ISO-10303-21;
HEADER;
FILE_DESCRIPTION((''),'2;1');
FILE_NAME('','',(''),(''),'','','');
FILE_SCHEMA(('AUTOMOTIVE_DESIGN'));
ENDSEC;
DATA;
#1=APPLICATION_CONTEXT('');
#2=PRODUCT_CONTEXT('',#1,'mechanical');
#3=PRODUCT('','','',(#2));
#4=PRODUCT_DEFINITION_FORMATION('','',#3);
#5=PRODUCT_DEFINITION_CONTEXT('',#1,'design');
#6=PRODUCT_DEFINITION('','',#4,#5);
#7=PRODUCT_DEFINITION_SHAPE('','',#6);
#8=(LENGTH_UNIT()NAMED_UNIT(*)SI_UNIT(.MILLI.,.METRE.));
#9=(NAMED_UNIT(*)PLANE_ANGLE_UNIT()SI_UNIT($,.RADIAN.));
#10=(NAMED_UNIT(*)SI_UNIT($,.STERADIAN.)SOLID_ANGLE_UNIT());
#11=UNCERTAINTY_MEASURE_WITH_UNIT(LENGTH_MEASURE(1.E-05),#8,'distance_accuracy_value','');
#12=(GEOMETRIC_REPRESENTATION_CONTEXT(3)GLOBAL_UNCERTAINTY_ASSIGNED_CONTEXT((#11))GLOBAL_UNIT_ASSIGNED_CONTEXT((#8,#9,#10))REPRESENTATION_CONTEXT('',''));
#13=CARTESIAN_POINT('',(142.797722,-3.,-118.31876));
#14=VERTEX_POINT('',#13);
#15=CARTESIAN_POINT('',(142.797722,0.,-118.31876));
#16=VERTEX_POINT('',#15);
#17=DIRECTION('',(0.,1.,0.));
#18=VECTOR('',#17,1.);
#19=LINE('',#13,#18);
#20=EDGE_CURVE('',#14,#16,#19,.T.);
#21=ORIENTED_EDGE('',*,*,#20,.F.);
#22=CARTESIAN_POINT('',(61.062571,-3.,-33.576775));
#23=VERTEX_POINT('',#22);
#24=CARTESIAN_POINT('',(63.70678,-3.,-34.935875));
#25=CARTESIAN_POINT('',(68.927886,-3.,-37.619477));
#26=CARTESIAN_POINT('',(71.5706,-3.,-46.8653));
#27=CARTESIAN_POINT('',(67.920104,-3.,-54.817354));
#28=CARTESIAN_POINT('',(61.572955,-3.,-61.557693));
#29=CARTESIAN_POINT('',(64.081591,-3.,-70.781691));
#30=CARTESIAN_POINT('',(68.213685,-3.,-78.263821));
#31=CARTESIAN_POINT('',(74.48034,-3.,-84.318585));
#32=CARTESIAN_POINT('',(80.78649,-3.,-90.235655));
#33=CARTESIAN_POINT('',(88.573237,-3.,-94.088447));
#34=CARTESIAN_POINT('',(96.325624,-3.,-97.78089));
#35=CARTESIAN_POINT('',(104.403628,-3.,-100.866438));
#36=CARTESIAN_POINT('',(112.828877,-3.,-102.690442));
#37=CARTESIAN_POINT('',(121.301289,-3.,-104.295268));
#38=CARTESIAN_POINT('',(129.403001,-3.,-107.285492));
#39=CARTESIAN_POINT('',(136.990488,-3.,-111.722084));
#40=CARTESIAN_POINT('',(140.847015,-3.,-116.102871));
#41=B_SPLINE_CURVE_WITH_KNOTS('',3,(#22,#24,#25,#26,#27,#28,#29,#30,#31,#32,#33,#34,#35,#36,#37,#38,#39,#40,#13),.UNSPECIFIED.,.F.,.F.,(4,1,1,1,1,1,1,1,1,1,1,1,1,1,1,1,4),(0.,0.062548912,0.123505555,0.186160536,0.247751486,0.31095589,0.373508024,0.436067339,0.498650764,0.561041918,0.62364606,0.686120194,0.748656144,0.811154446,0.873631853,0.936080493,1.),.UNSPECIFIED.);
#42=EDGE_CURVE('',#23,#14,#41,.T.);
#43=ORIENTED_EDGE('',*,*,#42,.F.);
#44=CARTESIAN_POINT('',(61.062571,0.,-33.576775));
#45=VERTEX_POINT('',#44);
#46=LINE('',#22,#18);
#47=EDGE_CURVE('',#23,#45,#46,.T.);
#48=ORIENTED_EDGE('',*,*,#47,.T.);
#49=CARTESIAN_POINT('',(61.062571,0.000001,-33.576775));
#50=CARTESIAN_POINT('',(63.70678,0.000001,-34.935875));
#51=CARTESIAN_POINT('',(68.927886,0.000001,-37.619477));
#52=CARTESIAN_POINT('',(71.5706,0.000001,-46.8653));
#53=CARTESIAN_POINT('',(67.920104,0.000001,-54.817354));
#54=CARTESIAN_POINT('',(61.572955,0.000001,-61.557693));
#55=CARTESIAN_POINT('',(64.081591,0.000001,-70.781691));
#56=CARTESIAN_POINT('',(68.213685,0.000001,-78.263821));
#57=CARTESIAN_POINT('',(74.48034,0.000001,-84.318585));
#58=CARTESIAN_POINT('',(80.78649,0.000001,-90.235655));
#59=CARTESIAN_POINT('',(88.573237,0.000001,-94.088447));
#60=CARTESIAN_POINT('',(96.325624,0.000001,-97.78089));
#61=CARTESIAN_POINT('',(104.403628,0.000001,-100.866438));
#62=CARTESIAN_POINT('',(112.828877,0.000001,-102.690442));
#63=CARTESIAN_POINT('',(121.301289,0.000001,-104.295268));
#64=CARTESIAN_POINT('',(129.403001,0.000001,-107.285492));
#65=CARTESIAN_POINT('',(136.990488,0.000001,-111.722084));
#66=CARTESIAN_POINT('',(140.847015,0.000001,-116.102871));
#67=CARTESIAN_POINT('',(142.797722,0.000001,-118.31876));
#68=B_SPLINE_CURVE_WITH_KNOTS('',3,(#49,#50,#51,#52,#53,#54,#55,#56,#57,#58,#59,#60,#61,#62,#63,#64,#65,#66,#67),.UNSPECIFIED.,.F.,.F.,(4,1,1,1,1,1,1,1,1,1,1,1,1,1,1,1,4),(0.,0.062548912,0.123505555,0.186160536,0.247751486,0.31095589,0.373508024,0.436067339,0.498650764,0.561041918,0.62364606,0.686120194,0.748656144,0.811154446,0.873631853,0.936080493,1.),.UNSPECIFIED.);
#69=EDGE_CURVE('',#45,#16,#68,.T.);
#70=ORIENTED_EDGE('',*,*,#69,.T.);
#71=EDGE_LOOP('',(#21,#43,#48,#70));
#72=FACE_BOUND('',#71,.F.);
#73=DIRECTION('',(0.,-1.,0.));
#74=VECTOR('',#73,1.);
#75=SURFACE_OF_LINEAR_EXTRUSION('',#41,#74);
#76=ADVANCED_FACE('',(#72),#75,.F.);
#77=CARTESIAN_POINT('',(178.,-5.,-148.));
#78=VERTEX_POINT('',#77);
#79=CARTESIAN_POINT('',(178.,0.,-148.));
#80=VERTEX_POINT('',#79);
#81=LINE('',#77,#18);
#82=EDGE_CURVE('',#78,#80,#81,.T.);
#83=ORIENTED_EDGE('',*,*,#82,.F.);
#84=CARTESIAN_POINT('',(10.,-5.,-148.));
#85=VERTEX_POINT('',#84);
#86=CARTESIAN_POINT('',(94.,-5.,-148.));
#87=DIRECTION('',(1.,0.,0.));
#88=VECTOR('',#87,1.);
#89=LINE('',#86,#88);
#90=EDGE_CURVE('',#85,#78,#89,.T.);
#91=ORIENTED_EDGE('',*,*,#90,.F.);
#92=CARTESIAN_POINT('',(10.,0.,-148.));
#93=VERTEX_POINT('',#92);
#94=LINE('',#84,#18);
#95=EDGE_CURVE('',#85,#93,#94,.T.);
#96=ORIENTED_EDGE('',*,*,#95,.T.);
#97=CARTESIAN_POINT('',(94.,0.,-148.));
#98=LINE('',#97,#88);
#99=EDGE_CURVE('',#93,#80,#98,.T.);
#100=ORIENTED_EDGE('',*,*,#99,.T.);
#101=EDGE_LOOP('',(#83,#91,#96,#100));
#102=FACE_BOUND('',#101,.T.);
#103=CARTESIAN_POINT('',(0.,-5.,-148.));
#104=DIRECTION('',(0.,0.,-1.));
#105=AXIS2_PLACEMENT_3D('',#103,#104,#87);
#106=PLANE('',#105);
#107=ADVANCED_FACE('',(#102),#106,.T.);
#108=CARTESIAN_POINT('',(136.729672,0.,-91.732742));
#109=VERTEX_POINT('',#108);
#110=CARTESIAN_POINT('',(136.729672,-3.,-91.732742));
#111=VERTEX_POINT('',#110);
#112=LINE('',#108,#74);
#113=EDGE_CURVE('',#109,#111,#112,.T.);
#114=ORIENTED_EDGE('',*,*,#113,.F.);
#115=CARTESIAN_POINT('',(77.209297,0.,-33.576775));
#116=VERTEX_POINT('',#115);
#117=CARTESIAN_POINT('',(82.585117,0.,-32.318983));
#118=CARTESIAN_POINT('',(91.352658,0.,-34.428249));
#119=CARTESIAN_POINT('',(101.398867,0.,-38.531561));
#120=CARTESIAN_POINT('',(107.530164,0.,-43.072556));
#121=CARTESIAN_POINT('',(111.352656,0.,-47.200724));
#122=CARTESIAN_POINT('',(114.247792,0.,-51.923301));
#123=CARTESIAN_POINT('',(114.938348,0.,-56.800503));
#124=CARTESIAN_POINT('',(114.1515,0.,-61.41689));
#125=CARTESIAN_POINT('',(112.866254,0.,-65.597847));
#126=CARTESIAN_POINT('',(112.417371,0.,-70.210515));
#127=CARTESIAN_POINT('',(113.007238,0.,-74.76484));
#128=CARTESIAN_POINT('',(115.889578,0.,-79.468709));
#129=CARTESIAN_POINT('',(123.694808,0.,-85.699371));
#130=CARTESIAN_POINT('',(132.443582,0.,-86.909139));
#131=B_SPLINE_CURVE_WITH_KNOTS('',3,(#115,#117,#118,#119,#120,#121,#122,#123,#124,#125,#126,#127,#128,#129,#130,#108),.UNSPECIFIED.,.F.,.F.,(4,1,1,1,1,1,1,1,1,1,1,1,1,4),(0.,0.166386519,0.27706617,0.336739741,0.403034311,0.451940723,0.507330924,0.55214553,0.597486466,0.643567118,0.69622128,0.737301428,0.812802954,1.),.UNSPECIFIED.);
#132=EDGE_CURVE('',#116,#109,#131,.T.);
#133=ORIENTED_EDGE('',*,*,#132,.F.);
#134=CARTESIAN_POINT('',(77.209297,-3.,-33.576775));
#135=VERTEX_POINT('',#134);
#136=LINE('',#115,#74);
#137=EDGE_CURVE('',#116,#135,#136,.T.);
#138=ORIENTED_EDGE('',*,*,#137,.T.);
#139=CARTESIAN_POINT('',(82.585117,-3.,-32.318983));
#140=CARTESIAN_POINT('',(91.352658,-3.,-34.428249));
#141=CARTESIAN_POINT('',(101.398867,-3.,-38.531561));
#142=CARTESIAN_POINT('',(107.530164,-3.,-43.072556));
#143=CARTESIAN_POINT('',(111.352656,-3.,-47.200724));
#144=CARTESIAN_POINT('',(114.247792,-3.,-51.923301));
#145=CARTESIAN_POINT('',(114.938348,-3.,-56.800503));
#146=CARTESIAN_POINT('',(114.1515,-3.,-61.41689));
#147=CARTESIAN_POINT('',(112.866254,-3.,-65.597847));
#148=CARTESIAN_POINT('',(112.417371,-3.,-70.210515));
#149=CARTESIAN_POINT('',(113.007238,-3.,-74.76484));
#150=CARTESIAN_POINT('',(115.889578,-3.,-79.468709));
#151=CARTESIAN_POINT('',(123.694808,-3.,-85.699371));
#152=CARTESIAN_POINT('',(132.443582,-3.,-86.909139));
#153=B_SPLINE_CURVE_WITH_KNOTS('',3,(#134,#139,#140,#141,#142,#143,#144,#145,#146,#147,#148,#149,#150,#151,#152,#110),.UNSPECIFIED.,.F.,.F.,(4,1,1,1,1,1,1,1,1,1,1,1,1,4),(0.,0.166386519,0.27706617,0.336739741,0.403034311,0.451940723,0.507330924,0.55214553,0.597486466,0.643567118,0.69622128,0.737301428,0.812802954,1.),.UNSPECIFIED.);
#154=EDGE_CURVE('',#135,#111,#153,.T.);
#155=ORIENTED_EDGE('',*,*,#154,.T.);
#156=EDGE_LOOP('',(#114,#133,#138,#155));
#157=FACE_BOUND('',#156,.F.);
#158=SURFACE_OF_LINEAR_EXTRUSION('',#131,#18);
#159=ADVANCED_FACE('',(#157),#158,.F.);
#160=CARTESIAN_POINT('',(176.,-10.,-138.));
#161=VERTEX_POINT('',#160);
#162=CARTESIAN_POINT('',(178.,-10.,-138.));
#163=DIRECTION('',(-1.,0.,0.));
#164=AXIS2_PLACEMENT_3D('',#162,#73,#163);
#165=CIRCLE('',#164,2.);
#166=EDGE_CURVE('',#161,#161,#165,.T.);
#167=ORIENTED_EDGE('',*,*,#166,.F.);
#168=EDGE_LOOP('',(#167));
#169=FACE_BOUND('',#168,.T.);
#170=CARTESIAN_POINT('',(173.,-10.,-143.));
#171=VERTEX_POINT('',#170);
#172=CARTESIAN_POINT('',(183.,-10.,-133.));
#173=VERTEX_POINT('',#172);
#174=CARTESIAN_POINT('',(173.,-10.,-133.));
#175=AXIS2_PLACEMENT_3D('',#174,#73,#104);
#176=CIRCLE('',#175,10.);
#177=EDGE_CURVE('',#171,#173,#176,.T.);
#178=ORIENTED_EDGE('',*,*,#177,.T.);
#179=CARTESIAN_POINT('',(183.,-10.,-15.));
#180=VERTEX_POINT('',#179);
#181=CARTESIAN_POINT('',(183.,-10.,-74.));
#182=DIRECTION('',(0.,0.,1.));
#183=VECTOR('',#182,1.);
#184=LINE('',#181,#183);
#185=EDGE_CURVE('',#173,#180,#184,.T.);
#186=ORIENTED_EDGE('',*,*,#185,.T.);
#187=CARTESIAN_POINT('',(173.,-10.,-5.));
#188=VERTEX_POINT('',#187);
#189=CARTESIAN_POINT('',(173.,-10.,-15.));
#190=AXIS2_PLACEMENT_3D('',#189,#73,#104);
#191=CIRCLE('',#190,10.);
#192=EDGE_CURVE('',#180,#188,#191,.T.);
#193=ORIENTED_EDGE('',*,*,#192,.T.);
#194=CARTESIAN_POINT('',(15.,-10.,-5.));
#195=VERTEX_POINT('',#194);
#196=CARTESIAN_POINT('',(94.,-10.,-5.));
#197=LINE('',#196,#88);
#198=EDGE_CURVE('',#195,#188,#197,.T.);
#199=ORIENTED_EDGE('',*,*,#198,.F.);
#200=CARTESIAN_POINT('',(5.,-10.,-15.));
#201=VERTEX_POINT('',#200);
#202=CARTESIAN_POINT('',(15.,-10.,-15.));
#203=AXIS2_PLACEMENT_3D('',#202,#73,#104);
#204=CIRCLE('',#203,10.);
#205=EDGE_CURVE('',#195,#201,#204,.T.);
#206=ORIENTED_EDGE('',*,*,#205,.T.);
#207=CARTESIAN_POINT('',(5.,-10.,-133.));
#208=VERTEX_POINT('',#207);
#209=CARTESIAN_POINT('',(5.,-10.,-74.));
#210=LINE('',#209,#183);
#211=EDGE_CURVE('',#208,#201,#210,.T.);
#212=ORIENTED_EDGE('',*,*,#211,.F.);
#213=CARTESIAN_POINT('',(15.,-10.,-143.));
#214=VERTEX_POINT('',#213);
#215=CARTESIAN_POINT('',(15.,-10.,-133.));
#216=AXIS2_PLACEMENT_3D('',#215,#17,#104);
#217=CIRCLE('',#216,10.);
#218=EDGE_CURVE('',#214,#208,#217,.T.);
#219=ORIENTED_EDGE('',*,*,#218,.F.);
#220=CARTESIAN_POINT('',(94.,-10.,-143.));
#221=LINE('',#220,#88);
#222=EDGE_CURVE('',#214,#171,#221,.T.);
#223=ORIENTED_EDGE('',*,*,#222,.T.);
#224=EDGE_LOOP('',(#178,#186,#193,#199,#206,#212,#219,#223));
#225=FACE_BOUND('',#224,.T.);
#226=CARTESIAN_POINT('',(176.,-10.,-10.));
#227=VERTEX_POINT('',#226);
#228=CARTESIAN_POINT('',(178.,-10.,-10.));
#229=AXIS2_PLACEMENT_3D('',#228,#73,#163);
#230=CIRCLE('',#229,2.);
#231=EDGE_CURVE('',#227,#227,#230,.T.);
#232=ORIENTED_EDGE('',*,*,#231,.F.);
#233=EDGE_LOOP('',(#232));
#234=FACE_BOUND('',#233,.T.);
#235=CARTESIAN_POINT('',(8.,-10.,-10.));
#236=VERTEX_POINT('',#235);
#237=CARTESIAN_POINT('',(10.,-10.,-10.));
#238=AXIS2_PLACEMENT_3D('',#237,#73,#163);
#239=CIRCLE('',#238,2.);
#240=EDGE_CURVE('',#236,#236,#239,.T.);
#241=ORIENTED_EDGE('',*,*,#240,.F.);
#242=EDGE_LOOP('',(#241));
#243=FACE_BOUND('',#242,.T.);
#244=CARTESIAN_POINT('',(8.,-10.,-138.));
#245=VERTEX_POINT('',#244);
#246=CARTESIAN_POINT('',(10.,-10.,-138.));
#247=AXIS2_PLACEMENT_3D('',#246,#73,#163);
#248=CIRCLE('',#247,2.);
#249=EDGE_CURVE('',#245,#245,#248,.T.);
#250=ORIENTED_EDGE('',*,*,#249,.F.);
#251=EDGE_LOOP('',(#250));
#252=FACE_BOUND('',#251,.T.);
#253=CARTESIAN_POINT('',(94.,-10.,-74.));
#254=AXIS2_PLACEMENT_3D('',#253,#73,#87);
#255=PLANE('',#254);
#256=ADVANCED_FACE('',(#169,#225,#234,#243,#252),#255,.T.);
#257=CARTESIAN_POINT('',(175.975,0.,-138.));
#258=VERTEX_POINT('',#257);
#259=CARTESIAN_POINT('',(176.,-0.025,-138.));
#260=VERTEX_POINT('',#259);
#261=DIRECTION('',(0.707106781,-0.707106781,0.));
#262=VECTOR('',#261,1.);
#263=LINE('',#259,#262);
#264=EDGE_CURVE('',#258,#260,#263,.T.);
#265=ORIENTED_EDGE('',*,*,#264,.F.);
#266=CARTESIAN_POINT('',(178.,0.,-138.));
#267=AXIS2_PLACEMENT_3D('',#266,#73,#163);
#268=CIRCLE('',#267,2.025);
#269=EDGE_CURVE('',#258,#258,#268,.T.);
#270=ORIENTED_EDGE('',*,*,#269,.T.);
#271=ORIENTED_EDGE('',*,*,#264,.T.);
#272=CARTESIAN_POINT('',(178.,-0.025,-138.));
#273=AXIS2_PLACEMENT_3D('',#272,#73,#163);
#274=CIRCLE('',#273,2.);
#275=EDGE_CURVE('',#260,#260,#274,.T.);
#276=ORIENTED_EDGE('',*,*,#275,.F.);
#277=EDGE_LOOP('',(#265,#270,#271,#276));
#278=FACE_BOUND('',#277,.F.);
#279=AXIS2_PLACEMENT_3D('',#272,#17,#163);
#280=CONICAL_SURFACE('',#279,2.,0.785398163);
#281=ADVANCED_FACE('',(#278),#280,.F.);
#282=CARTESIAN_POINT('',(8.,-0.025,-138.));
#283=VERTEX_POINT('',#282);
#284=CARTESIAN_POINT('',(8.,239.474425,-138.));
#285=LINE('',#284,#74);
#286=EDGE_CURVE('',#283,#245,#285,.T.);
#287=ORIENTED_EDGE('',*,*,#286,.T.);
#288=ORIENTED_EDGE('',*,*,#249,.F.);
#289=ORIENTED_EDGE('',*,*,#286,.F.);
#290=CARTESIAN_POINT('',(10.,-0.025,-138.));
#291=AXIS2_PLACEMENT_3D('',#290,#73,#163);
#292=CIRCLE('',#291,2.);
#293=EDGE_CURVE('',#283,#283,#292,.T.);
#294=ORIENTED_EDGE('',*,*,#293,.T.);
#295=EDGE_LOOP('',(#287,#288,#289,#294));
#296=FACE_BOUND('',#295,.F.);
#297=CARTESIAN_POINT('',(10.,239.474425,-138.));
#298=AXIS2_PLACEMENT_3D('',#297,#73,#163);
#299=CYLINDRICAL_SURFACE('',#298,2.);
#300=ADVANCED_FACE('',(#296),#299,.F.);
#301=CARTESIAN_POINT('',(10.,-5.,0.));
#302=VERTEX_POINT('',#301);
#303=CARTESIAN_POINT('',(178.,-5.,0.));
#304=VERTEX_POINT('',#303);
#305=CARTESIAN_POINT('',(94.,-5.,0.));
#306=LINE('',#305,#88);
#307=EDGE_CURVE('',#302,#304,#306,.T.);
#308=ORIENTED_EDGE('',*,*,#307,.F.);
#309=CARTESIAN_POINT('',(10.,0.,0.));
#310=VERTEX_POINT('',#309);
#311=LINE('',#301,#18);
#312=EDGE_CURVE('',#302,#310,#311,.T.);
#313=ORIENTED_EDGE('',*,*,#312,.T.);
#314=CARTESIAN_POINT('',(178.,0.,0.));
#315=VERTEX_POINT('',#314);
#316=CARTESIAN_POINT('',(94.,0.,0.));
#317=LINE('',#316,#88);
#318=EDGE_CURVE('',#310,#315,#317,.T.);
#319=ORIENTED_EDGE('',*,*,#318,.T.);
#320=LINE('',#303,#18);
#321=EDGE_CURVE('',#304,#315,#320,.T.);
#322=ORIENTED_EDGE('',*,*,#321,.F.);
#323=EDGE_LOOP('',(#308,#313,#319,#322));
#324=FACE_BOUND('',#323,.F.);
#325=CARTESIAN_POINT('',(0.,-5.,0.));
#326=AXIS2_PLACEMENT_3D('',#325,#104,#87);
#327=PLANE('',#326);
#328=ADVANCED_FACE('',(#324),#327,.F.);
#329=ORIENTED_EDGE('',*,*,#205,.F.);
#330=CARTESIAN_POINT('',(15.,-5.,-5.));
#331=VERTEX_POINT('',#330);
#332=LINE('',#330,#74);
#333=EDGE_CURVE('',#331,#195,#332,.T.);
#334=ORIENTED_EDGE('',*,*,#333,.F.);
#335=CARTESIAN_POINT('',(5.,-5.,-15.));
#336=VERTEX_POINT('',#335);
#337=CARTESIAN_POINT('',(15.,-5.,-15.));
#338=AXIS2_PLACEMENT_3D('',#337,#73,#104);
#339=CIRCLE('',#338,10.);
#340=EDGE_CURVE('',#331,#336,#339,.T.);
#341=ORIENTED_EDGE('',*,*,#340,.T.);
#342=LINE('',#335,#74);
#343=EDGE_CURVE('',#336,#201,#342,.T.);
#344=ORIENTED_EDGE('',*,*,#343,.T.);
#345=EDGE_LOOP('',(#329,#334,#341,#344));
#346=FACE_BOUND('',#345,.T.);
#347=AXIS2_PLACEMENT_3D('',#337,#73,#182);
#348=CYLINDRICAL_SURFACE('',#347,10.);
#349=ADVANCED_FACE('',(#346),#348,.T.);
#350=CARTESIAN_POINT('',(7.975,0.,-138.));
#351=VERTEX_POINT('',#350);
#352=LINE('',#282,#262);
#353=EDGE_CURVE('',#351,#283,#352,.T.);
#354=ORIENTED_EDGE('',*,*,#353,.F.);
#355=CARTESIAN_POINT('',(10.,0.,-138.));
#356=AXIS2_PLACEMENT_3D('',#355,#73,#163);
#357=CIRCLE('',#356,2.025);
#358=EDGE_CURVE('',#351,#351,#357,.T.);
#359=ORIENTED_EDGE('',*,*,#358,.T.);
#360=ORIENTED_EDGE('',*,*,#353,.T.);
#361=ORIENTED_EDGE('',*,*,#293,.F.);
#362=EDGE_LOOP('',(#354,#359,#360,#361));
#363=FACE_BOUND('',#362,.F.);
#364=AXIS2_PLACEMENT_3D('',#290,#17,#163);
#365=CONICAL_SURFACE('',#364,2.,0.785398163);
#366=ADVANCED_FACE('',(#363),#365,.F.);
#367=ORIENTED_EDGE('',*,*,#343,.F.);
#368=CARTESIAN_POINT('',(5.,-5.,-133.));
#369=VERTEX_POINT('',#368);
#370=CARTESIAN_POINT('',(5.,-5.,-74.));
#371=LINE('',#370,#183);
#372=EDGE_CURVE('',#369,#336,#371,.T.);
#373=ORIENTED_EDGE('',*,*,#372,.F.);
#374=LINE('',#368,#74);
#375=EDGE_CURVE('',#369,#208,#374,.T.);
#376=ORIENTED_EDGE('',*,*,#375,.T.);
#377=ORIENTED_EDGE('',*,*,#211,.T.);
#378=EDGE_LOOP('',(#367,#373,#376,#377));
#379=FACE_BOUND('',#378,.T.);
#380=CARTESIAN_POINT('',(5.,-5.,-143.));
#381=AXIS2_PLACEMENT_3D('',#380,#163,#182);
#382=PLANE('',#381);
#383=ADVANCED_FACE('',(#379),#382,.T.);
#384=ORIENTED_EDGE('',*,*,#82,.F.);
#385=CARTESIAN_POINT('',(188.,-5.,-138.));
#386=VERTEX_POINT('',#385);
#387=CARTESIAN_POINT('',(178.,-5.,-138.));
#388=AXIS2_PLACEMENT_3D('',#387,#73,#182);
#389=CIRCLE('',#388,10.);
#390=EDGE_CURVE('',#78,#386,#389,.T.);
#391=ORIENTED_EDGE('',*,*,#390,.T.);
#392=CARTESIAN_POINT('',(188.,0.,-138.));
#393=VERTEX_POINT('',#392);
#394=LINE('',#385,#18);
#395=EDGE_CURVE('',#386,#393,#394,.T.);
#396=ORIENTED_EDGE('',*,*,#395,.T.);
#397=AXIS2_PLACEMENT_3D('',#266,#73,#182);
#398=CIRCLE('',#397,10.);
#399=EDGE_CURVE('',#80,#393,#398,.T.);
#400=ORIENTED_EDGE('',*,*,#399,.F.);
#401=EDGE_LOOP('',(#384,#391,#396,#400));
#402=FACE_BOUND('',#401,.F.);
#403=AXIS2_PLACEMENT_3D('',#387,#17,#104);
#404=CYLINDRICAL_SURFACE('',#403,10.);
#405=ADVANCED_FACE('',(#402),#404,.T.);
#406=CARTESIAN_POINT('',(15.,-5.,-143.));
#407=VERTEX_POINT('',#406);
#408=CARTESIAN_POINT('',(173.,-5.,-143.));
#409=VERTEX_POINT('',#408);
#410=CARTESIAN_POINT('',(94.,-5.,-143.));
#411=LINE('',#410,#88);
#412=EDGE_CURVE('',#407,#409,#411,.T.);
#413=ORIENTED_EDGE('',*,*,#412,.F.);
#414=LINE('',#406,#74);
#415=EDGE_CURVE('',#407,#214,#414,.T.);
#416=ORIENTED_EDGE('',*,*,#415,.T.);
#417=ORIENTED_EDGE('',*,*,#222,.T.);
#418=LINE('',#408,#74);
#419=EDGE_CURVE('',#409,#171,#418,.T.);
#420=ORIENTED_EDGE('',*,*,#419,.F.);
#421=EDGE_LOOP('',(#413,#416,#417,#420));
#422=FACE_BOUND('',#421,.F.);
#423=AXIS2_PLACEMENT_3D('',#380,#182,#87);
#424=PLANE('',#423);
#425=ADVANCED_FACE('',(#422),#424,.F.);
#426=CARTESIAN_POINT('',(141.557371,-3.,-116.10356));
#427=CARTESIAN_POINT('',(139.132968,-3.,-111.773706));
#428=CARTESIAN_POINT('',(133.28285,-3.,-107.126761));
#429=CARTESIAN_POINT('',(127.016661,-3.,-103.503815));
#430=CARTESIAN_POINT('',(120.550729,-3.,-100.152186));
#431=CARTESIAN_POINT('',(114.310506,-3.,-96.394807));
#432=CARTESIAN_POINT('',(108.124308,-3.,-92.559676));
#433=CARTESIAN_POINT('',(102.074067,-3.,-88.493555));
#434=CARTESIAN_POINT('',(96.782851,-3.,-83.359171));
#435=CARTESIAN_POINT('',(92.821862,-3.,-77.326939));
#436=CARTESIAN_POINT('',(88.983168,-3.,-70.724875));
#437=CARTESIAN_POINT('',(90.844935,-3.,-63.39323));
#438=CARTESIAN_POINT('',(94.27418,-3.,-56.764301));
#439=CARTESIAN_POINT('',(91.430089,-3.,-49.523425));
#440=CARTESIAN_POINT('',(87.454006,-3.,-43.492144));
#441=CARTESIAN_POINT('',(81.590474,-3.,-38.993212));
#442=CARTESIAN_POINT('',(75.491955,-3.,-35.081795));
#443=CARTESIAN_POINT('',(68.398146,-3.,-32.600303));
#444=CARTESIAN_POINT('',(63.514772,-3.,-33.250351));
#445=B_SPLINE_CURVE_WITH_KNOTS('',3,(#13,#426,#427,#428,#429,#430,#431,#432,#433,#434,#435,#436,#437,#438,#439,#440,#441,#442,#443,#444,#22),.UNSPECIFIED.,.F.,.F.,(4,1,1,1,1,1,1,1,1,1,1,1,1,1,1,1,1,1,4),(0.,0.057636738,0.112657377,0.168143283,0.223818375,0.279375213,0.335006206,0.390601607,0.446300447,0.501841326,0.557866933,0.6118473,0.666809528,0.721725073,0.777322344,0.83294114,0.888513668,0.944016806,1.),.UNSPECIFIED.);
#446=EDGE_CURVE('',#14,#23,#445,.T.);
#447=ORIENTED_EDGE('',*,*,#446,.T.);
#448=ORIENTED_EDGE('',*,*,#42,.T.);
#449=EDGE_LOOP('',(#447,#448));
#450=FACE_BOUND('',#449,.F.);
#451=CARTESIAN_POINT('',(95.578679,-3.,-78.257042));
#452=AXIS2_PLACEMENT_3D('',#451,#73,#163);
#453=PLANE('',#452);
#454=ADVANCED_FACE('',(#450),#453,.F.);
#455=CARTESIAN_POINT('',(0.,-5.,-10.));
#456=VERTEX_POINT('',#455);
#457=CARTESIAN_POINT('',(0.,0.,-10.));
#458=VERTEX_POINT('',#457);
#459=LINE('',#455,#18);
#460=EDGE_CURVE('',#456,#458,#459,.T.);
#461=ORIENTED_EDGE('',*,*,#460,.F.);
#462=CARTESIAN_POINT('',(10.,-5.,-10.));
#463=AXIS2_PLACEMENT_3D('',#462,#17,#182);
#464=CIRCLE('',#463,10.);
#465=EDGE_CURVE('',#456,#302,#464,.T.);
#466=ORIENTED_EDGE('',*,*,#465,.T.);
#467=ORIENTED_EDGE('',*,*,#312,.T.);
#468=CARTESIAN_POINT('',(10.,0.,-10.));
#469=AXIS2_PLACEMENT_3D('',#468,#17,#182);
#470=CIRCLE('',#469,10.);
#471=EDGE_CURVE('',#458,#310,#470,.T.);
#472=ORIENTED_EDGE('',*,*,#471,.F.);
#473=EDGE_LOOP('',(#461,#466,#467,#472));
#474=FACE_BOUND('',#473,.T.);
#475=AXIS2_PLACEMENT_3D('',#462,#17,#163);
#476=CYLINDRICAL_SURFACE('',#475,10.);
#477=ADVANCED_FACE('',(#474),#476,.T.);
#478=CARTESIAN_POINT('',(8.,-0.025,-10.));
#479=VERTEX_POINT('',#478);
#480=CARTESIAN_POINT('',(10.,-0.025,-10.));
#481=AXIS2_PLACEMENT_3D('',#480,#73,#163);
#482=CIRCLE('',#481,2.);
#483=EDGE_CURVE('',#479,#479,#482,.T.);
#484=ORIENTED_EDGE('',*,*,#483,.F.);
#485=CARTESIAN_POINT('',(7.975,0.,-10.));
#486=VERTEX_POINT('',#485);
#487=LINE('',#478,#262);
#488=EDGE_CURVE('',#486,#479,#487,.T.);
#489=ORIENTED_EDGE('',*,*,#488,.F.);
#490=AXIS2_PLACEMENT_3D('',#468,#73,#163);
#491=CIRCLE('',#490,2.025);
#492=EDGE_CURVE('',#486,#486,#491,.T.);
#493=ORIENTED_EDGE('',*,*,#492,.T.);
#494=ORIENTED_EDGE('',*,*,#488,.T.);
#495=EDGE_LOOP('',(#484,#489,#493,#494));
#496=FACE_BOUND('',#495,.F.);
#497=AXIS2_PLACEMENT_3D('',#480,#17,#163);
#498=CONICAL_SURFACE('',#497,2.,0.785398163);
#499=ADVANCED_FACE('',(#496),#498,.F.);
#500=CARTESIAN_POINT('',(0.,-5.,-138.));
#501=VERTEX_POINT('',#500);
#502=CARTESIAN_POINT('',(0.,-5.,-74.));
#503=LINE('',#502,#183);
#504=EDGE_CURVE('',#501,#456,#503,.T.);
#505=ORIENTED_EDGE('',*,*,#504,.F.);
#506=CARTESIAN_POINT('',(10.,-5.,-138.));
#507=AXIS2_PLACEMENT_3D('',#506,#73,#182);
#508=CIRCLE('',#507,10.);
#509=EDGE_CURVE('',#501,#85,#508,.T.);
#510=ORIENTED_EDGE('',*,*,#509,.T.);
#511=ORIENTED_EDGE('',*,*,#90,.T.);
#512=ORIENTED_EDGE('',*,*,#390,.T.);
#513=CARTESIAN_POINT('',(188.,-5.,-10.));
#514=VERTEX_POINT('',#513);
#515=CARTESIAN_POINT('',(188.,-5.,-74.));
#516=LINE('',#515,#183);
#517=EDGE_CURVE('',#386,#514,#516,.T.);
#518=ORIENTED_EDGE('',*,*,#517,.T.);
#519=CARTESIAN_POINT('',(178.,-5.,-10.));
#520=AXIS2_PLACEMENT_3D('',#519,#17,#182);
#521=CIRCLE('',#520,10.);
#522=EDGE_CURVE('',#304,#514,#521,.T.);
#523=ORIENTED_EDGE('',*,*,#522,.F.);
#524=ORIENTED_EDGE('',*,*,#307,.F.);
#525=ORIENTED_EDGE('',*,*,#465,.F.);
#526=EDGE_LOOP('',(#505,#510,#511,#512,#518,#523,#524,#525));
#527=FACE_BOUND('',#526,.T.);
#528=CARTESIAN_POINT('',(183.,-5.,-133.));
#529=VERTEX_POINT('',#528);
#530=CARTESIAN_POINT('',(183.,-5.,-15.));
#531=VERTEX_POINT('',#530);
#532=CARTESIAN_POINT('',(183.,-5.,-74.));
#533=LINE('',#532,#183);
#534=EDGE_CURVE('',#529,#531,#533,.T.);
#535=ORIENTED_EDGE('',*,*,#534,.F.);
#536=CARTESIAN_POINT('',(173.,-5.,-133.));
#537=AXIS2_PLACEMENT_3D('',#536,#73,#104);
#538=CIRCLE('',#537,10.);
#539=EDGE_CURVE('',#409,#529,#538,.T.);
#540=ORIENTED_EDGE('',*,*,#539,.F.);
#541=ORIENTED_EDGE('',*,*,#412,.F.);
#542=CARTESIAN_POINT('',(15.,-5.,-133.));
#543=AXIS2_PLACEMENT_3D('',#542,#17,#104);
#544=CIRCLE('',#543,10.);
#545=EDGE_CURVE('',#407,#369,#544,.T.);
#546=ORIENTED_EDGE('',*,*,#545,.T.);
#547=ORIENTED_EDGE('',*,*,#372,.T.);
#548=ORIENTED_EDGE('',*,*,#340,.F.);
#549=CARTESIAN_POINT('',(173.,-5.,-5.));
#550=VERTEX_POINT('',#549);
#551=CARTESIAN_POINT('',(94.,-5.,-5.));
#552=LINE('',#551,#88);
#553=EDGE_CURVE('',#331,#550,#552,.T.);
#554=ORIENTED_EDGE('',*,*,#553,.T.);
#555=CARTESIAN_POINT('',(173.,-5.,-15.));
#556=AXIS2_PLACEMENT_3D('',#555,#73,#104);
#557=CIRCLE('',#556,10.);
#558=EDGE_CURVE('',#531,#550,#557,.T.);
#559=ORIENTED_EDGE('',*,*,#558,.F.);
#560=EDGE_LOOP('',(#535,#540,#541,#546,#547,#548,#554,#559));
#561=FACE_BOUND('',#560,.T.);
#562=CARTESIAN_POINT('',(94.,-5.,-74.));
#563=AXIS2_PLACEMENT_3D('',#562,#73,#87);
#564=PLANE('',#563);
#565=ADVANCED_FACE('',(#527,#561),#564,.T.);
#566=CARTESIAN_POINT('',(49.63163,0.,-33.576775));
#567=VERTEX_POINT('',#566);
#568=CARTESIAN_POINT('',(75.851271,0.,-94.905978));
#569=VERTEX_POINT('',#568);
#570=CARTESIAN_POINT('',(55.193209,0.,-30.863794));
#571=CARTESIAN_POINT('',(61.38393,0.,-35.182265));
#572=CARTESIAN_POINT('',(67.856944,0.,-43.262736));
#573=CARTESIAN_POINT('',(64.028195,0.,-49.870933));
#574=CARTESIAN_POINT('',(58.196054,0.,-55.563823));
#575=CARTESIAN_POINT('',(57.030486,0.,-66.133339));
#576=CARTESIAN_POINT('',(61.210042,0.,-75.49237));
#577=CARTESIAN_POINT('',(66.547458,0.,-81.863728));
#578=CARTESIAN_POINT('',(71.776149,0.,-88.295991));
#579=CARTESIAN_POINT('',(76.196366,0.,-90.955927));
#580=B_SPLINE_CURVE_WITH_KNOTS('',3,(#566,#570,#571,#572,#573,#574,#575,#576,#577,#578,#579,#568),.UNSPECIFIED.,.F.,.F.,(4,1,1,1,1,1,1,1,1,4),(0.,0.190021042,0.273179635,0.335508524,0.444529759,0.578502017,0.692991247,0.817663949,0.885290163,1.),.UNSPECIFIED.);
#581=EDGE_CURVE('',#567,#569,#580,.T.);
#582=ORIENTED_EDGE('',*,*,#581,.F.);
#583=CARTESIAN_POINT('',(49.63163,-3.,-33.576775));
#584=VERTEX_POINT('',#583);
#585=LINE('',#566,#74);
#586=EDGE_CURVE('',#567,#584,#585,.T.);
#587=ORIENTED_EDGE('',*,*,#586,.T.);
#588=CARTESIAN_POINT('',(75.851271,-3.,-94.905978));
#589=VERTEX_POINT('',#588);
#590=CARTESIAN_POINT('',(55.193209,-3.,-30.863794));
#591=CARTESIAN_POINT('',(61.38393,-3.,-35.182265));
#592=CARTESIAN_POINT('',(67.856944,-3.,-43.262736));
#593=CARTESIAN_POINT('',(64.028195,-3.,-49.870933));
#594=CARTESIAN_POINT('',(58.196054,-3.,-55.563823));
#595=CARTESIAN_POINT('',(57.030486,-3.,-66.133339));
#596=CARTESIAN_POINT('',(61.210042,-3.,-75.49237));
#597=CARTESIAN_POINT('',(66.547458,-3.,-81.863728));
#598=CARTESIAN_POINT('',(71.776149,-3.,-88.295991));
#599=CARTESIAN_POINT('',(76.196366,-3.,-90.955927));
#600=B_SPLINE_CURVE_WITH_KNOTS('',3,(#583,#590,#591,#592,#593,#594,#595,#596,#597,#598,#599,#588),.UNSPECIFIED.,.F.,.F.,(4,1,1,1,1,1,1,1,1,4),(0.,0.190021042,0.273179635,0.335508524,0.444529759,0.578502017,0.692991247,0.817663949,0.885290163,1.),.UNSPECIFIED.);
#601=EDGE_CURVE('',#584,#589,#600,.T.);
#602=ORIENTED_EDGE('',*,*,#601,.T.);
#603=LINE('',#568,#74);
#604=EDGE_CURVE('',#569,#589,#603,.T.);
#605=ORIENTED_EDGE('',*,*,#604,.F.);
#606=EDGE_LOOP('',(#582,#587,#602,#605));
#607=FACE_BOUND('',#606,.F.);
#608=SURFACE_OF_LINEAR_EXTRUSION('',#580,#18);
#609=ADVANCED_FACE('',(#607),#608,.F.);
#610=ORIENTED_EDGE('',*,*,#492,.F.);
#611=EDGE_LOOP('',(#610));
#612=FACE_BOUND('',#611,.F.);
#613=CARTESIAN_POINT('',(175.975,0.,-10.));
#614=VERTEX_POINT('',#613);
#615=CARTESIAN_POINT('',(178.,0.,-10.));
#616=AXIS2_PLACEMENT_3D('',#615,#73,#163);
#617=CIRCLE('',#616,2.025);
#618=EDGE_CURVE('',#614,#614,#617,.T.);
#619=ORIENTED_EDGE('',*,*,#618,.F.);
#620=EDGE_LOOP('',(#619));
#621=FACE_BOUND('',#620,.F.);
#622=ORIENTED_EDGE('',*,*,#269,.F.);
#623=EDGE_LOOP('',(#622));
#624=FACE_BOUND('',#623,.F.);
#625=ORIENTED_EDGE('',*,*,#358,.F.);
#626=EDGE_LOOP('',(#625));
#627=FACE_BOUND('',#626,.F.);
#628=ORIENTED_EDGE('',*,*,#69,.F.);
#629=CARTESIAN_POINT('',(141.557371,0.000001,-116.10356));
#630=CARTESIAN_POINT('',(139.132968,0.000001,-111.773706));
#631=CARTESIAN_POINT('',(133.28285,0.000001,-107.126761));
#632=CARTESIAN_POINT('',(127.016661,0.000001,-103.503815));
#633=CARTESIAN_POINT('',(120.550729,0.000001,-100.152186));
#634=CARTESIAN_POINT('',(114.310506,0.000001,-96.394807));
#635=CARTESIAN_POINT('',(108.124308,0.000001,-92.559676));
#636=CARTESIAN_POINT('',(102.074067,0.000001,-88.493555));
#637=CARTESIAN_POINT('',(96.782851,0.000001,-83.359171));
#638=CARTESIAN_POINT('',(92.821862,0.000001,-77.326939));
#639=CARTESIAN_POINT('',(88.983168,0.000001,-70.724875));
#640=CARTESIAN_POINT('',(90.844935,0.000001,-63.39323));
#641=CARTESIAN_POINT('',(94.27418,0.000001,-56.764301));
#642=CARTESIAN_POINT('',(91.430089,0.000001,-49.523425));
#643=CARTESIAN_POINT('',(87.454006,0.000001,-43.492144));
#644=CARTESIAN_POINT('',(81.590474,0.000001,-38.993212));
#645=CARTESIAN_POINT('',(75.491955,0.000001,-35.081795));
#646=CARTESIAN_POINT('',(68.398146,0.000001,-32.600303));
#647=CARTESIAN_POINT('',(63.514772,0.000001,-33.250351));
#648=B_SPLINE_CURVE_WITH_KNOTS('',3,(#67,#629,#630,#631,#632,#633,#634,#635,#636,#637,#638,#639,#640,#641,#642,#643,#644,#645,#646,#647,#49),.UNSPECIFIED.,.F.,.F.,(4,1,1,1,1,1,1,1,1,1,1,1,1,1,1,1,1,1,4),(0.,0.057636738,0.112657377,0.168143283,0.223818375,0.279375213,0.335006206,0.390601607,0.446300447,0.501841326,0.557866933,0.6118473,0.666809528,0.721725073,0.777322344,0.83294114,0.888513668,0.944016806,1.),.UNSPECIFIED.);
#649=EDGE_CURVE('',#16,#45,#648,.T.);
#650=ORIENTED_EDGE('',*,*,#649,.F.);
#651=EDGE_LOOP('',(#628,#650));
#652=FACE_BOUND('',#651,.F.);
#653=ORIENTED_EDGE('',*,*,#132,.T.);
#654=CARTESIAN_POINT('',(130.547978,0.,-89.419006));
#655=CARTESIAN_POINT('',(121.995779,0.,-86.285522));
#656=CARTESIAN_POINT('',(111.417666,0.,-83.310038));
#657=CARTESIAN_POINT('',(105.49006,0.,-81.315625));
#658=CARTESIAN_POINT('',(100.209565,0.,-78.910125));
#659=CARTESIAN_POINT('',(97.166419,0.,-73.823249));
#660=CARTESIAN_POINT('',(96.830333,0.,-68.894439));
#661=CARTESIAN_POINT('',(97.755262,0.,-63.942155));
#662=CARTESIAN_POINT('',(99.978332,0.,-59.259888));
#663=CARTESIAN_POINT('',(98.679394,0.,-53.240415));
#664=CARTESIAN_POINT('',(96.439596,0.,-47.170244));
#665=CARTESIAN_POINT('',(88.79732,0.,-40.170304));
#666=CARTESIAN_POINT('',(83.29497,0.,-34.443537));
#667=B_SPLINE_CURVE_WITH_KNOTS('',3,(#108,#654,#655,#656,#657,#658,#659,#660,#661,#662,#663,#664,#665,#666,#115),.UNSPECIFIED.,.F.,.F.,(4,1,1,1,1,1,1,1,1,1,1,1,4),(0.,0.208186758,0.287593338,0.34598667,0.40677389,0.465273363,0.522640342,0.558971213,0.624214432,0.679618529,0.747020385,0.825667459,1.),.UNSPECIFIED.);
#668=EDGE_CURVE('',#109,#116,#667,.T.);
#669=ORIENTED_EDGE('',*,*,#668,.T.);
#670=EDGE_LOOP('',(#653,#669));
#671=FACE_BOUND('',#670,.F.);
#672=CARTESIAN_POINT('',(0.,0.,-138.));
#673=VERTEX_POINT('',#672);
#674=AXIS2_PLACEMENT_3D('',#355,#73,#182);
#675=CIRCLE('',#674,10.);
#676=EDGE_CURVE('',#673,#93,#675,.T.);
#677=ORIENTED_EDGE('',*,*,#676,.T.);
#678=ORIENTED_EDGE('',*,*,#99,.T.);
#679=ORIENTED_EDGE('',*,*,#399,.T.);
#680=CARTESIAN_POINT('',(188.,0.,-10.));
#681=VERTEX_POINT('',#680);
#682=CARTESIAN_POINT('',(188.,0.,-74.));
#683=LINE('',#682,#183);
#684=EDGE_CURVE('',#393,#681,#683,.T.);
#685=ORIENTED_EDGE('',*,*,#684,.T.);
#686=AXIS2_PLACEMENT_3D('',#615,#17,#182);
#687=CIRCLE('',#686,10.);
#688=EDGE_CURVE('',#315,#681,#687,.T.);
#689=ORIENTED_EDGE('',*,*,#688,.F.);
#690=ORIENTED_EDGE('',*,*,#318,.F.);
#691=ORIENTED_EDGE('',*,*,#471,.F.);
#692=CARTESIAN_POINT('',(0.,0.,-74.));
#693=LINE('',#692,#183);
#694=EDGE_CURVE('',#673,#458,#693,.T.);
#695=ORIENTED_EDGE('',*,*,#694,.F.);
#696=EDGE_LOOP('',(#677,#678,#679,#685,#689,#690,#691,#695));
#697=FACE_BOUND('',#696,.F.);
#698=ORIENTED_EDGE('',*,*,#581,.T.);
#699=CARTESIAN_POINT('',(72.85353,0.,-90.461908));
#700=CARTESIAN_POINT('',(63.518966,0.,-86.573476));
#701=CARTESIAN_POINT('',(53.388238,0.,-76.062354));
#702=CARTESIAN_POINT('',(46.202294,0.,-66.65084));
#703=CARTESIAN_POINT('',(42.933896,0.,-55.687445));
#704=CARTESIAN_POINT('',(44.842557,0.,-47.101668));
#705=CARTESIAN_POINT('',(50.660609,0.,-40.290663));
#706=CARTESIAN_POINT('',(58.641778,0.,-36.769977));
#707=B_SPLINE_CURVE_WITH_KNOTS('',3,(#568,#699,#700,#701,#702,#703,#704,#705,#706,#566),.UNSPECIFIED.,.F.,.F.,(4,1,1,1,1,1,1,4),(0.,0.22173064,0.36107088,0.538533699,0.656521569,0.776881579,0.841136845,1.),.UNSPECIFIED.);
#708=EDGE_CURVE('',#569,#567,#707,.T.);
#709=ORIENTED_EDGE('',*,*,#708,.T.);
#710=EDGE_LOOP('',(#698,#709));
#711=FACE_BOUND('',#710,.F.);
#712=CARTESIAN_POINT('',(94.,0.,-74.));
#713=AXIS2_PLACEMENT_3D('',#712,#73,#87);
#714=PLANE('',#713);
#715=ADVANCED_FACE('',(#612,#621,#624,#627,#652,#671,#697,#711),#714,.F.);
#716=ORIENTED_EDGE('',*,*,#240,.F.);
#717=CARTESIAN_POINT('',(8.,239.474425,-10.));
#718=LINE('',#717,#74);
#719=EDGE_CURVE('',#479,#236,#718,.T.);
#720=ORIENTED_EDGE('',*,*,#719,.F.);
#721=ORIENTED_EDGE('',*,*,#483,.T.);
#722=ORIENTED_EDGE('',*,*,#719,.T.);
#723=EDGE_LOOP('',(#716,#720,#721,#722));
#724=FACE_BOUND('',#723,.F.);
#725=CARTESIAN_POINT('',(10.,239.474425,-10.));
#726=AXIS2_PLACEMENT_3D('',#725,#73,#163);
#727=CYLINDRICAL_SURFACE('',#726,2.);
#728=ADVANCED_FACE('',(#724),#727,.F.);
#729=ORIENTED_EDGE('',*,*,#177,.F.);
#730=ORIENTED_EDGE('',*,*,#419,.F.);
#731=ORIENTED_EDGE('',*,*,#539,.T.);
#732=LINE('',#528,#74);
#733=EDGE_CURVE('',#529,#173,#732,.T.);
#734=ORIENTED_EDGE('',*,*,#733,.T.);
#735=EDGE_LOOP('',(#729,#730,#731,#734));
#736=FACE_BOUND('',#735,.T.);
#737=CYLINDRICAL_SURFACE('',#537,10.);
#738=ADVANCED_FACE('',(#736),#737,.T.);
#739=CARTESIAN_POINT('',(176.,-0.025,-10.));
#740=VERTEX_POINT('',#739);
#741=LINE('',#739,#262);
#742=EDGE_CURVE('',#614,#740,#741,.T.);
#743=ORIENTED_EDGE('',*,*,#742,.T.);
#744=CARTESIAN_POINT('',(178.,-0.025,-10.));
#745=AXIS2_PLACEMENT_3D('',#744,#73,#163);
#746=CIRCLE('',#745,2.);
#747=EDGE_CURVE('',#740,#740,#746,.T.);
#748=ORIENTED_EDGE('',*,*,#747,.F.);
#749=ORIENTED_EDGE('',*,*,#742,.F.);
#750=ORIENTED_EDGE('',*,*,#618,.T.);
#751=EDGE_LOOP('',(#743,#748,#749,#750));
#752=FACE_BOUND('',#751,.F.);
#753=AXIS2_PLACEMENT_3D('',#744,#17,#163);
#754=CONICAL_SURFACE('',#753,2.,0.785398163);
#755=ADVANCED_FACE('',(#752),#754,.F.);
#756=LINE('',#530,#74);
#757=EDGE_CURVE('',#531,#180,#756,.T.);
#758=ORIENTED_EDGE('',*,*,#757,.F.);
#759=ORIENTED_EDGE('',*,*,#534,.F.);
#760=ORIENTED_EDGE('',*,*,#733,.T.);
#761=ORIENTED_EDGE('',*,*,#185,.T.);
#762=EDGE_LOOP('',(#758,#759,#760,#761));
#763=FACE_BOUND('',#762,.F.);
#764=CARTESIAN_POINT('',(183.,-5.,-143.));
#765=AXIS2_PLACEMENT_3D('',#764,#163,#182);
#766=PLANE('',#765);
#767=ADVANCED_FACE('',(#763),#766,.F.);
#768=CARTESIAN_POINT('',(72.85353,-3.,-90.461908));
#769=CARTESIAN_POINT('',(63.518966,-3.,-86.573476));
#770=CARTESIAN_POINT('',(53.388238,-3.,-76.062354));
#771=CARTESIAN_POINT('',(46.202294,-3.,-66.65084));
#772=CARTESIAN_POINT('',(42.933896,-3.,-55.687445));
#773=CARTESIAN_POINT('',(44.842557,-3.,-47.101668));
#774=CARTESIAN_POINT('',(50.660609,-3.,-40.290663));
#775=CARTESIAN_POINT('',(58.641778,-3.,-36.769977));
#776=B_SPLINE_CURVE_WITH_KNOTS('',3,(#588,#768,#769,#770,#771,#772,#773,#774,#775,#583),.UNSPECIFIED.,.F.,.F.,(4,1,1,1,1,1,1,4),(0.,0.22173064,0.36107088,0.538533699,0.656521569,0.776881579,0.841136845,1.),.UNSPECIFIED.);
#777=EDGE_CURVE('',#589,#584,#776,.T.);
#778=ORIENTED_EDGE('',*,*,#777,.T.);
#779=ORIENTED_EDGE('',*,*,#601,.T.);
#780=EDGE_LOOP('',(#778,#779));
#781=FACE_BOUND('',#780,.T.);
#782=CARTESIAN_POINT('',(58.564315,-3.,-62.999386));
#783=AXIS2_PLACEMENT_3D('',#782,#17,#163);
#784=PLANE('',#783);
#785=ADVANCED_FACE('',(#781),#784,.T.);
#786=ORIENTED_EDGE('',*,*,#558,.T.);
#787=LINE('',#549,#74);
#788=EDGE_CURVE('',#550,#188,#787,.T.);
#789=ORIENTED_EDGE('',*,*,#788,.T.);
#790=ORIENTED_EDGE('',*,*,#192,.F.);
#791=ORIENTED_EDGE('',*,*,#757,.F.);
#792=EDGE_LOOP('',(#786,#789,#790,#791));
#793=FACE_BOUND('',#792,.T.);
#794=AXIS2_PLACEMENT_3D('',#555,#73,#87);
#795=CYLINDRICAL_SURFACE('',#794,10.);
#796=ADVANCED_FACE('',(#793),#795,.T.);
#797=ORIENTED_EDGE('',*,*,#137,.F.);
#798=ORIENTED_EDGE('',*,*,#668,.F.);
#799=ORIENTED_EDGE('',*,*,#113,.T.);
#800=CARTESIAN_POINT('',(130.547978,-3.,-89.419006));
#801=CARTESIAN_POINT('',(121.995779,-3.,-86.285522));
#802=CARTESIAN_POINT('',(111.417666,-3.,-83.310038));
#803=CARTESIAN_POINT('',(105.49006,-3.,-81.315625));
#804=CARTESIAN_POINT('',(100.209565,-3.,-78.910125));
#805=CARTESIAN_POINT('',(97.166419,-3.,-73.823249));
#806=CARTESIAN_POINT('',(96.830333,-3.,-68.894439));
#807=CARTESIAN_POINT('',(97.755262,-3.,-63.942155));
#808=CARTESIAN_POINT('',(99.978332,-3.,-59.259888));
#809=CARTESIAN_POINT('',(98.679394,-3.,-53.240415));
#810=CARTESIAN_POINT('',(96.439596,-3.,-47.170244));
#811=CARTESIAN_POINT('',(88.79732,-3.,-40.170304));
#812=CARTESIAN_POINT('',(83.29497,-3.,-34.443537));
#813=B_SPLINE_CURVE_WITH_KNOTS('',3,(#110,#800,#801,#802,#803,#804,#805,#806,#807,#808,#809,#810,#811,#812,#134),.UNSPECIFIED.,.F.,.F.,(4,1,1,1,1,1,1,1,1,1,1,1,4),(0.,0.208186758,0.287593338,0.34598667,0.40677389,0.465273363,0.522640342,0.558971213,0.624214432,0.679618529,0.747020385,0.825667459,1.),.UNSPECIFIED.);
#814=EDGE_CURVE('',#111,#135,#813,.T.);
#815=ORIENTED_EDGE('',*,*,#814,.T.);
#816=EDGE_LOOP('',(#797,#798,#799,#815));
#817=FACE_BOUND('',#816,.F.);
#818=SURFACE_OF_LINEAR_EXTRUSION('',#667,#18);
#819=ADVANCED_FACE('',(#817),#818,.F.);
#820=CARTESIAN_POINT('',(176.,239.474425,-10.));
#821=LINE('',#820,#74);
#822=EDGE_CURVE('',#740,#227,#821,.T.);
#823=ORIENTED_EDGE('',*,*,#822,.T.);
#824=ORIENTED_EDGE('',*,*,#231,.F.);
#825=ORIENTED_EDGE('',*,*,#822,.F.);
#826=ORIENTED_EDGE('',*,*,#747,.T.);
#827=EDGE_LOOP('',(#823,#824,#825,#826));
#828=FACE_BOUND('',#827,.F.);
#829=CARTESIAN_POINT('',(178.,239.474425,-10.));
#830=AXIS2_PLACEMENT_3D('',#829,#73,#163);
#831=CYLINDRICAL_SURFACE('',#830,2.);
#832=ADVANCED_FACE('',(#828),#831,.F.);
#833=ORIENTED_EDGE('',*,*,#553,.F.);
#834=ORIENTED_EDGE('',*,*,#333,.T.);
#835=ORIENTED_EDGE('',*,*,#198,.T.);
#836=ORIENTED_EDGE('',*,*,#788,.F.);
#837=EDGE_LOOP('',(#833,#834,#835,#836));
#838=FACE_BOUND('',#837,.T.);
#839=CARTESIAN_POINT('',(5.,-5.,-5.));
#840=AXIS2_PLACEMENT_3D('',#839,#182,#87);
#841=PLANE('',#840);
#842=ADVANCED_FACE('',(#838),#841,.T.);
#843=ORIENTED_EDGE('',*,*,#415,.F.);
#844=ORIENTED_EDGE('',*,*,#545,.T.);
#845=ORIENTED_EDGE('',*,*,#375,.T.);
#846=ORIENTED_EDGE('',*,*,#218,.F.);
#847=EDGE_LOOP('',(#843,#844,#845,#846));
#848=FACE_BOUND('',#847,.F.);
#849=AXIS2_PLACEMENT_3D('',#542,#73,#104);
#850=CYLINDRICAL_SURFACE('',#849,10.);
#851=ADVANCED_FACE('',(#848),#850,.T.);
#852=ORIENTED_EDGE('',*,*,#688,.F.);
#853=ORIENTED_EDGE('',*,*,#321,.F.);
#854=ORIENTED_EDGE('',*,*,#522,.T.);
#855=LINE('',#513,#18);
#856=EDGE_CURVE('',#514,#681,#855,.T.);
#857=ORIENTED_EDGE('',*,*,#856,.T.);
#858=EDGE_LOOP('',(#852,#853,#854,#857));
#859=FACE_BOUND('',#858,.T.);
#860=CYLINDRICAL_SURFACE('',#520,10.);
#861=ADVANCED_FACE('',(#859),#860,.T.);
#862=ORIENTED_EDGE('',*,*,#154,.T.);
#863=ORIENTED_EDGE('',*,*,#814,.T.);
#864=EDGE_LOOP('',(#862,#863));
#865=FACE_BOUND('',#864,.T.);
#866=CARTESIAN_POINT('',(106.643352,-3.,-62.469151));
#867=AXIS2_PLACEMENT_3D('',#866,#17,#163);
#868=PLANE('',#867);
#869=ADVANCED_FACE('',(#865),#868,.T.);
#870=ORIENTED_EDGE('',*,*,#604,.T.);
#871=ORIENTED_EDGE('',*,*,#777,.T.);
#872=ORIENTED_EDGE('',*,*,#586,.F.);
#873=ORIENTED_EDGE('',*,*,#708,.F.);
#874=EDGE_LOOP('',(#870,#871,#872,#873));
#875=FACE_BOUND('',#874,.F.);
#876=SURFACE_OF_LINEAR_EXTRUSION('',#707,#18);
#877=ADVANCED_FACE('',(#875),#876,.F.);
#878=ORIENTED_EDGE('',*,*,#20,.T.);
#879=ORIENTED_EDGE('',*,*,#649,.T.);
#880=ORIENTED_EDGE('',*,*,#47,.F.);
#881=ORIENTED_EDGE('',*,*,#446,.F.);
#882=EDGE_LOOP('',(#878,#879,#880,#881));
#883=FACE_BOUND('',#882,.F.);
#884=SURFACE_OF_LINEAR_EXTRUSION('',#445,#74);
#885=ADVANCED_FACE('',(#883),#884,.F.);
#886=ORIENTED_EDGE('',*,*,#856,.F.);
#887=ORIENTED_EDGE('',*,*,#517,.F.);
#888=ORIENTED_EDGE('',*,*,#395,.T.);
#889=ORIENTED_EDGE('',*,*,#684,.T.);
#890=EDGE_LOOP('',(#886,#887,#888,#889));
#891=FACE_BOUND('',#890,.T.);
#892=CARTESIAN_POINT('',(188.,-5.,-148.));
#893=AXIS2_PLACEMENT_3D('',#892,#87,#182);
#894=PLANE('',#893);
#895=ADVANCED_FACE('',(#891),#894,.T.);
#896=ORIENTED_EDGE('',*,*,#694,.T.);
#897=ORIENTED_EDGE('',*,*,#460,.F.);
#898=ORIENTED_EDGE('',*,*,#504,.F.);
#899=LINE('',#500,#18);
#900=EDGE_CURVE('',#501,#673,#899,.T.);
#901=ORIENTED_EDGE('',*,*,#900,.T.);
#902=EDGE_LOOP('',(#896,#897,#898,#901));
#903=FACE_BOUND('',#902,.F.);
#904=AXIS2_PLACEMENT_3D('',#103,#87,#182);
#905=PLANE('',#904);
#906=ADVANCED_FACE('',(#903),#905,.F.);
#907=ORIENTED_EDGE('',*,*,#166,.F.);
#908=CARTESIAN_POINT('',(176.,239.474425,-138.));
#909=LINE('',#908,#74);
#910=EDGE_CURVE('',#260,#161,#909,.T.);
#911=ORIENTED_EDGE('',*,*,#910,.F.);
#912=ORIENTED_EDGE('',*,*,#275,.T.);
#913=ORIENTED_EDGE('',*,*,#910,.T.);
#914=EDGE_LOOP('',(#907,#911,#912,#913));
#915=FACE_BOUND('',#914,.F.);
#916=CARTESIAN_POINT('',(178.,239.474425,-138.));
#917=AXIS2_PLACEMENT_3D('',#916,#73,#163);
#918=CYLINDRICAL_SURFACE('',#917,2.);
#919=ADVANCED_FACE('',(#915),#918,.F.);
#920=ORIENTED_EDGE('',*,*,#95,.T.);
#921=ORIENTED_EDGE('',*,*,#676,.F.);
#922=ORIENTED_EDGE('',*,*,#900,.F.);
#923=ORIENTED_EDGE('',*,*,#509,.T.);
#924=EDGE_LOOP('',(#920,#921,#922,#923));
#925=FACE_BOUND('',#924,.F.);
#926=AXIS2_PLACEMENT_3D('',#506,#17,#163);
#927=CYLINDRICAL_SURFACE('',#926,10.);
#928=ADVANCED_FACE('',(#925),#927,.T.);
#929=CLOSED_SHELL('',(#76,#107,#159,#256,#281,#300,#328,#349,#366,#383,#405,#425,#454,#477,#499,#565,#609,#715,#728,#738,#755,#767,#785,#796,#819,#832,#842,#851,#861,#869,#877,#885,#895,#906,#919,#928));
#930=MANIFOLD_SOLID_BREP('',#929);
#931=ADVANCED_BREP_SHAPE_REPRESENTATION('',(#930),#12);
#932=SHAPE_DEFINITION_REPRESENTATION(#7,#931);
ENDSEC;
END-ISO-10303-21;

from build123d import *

# Parameters (mm, degrees)
ESBO_O1_W                  = 188
ESBO_O1_H                  = 148
RESSALTO_EXTRUS_O1_DEPTH   = 5
ESBO_O2_W                  = 178
ESBO_O2_H                  = 138
RESSALTO_EXTRUS_O2_DEPTH   = 5
CORTE_EXTRUS_O1_DEPTH      = 3
CORTE_EXTRUS_O2_DEPTH      = 3
CORTE_EXTRUS_O3_START      = 5.999999
CORTE_EXTRUS_O3_DEPTH      = 3.000001
FURO_DE_DI_METRO_4_0_4_1_D = 4
CHANFRO1_SIZE              = 0.025
FILETE1_R                  = 10


with BuildPart() as part:
    # Esboço1 → Ressalto-extrusão1 (new body)
    with BuildSketch(Plane.XZ.offset(5)):
        with Locations((94, -74)):
            Rectangle(ESBO_O1_W, ESBO_O1_H)
    extrude(amount=-RESSALTO_EXTRUS_O1_DEPTH)

    # Esboço2 → Ressalto-extrusão2 (add)
    with BuildSketch(Plane.XZ.offset(5)):
        with Locations((94, -74)):
            Rectangle(ESBO_O2_W, ESBO_O2_H)
    extrude(amount=RESSALTO_EXTRUS_O2_DEPTH)

    # Esboço3 → Corte-extrusão1 (cut)
    with BuildSketch(Plane(origin=(0, 0, 0), x_dir=(-1, 0, 0), z_dir=(0, 1, 0))):
        with BuildLine():
            add(Edge.make_bspline(
                [(-75.851271047, -94.905977801), (-72.853529778, -90.461908235), (-63.518965975, -86.573475907), (-53.388238374, -76.062354108), (-46.202294461, -66.650840181), (-42.933896498, -55.687444915), (-44.842557243, -47.101668287), (-50.660608799, -40.290662898), (-58.64177807, -36.769977477), (-49.631630274, -33.576775134)],
                knots=[0, 0, 0, 0, 0.22173064, 0.36107088, 0.538533699, 0.656521569, 0.776881579, 0.841136845, 1, 1, 1, 1], degree=3))
            add(Edge.make_bspline(
                [(-49.631630274, -33.576775134), (-55.193208686, -30.863794332), (-61.383930126, -35.182265377), (-67.85694371, -43.262736471), (-64.028195245, -49.870932971), (-58.196053752, -55.563823422), (-57.030485514, -66.133339409), (-61.210041506, -75.49236965), (-66.547457609, -81.863728313), (-71.776148718, -88.295991451), (-76.196365931, -90.955926743), (-75.851271047, -94.905977801)],
                knots=[0, 0, 0, 0, 0.190021042, 0.273179635, 0.335508524, 0.444529759, 0.578502017, 0.692991247, 0.817663949, 0.885290163, 1, 1, 1, 1], degree=3))
        make_face()
    extrude(amount=-CORTE_EXTRUS_O1_DEPTH, mode=Mode.SUBTRACT)

    # Esboço4 → Corte-extrusão2 (cut)
    with BuildSketch(Plane(origin=(0, 0, 0), x_dir=(-1, 0, 0), z_dir=(0, 1, 0))):
        with BuildLine():
            add(Edge.make_bspline(
                [(-136.729671692, -91.732742251), (-130.54797809, -89.41900582), (-121.995778776, -86.285522027), (-111.41766579, -83.310038148), (-105.490059757, -81.315624718), (-100.209565482, -78.910124849), (-97.166418624, -73.823248608), (-96.830332763, -68.894438878), (-97.755261853, -63.942155002), (-99.978332244, -59.259888431), (-98.67939373, -53.240415216), (-96.439595754, -47.170244468), (-88.797320177, -40.170304439), (-83.294970154, -34.443536621), (-77.209296676, -33.576775134)],
                knots=[0, 0, 0, 0, 0.208186758, 0.287593338, 0.34598667, 0.40677389, 0.465273363, 0.522640342, 0.558971213, 0.624214432, 0.679618529, 0.747020385, 0.825667459, 1, 1, 1, 1], degree=3))
            add(Edge.make_bspline(
                [(-77.209296676, -33.576775134), (-82.585116536, -32.31898283), (-91.352658464, -34.428249196), (-101.398867055, -38.531561412), (-107.530164378, -43.072555909), (-111.352655789, -47.200724364), (-114.247792048, -51.923301271), (-114.938348234, -56.800502578), (-114.151500445, -61.41688971), (-112.866253897, -65.597847037), (-112.417371236, -70.210515308), (-113.007237755, -74.7648398), (-115.889578157, -79.468708801), (-123.694808489, -85.699371169), (-132.443581982, -86.909139375), (-136.729671692, -91.732742251)],
                knots=[0, 0, 0, 0, 0.166386519, 0.27706617, 0.336739741, 0.403034311, 0.451940723, 0.507330924, 0.55214553, 0.597486466, 0.643567118, 0.69622128, 0.737301428, 0.812802954, 1, 1, 1, 1], degree=3))
        make_face()
    extrude(amount=-CORTE_EXTRUS_O2_DEPTH, mode=Mode.SUBTRACT)

    # Esboço5 → Corte-extrusão3 (cut)
    with BuildSketch(Plane(origin=(0, -8.999999416, 0), x_dir=(1, 0, 0), z_dir=(0, 1, 0)).offset(CORTE_EXTRUS_O3_START)):
        with BuildLine():
            add(Edge.make_bspline(
                [(142.797722166, 118.318760004), (141.55737102, 116.103559652), (139.132967552, 111.773705613), (133.282849534, 107.12676109), (127.016660755, 103.503815432), (120.55072949, 100.15218557), (114.310505573, 96.394806529), (108.124307846, 92.559675632), (102.074067108, 88.493554986), (96.782850849, 83.359171175), (92.821862337, 77.326939474), (88.983167693, 70.724875086), (90.844934858, 63.393230233), (94.274180002, 56.764300619), (91.430089418, 49.523425312), (87.454006301, 43.492143706), (81.590473794, 38.993211516), (75.491955375, 35.081795496), (68.398146179, 32.600302514), (63.514772267, 33.250351232), (61.06257149, 33.576775134)],
                knots=[0, 0, 0, 0, 0.057636738, 0.112657377, 0.168143283, 0.223818375, 0.279375213, 0.335006206, 0.390601607, 0.446300447, 0.501841326, 0.557866933, 0.6118473, 0.666809528, 0.721725073, 0.777322344, 0.83294114, 0.888513668, 0.944016806, 1, 1, 1, 1], degree=3))
            add(Edge.make_bspline(
                [(61.06257149, 33.576775134), (63.70678031, 34.93587517), (68.92788595, 37.619477465), (71.570599658, 46.865300373), (67.920103528, 54.817354375), (61.572954516, 61.557692954), (64.081590616, 70.781691203), (68.213684572, 78.263821244), (74.480339952, 84.318584584), (80.786490273, 90.235655158), (88.573237157, 94.088447273), (96.325623659, 97.780889538), (104.403628291, 100.866438131), (112.828877079, 102.690441809), (121.3012891, 104.295268028), (129.403001338, 107.285492464), (136.990487774, 111.722084003), (140.847014635, 116.10287122), (142.797722166, 118.318760004)],
                knots=[0, 0, 0, 0, 0.062548912, 0.123505555, 0.186160536, 0.247751486, 0.31095589, 0.373508024, 0.436067339, 0.498650764, 0.561041918, 0.62364606, 0.686120194, 0.748656144, 0.811154446, 0.873631853, 0.936080493, 1, 1, 1, 1], degree=3))
        make_face()
    extrude(amount=CORTE_EXTRUS_O3_DEPTH, mode=Mode.SUBTRACT)

    # Furo de diâmetro Ø4.0 (4)1 (through all)
    with Locations(Plane(origin=(0, 0, 0), x_dir=(1, 0, 0), z_dir=(0, 1, 0))):
        with Locations((178, 138), (178, 10), (10, 10), (10, 138)):
            Hole(FURO_DE_DI_METRO_4_0_4_1_D / 2)

    # Chanfro1
    chanfro1_edges = [part.edges().sort_by_distance(p)[0] for p in [
        (12, 0, -138),
        (12, 0, -10),
        (180, 0, -10),
        (180, 0, -138),
    ]]
    chamfer(chanfro1_edges, length=CHANFRO1_SIZE)

    # Filete1
    filete1_edges = [part.edges().sort_by_distance(p)[0] for p in [
        (5, -7.5, -5),
        (5, -7.5, -143),
        (183, -7.5, -143),
        (183, -7.5, -5),
        (0, -2.5, 0),
        (188, -2.5, 0),
        (188, -2.5, -148),
        (0, -2.5, -148),
    ]]
    fillet(filete1_edges, radius=FILETE1_R)


solid = part.part
